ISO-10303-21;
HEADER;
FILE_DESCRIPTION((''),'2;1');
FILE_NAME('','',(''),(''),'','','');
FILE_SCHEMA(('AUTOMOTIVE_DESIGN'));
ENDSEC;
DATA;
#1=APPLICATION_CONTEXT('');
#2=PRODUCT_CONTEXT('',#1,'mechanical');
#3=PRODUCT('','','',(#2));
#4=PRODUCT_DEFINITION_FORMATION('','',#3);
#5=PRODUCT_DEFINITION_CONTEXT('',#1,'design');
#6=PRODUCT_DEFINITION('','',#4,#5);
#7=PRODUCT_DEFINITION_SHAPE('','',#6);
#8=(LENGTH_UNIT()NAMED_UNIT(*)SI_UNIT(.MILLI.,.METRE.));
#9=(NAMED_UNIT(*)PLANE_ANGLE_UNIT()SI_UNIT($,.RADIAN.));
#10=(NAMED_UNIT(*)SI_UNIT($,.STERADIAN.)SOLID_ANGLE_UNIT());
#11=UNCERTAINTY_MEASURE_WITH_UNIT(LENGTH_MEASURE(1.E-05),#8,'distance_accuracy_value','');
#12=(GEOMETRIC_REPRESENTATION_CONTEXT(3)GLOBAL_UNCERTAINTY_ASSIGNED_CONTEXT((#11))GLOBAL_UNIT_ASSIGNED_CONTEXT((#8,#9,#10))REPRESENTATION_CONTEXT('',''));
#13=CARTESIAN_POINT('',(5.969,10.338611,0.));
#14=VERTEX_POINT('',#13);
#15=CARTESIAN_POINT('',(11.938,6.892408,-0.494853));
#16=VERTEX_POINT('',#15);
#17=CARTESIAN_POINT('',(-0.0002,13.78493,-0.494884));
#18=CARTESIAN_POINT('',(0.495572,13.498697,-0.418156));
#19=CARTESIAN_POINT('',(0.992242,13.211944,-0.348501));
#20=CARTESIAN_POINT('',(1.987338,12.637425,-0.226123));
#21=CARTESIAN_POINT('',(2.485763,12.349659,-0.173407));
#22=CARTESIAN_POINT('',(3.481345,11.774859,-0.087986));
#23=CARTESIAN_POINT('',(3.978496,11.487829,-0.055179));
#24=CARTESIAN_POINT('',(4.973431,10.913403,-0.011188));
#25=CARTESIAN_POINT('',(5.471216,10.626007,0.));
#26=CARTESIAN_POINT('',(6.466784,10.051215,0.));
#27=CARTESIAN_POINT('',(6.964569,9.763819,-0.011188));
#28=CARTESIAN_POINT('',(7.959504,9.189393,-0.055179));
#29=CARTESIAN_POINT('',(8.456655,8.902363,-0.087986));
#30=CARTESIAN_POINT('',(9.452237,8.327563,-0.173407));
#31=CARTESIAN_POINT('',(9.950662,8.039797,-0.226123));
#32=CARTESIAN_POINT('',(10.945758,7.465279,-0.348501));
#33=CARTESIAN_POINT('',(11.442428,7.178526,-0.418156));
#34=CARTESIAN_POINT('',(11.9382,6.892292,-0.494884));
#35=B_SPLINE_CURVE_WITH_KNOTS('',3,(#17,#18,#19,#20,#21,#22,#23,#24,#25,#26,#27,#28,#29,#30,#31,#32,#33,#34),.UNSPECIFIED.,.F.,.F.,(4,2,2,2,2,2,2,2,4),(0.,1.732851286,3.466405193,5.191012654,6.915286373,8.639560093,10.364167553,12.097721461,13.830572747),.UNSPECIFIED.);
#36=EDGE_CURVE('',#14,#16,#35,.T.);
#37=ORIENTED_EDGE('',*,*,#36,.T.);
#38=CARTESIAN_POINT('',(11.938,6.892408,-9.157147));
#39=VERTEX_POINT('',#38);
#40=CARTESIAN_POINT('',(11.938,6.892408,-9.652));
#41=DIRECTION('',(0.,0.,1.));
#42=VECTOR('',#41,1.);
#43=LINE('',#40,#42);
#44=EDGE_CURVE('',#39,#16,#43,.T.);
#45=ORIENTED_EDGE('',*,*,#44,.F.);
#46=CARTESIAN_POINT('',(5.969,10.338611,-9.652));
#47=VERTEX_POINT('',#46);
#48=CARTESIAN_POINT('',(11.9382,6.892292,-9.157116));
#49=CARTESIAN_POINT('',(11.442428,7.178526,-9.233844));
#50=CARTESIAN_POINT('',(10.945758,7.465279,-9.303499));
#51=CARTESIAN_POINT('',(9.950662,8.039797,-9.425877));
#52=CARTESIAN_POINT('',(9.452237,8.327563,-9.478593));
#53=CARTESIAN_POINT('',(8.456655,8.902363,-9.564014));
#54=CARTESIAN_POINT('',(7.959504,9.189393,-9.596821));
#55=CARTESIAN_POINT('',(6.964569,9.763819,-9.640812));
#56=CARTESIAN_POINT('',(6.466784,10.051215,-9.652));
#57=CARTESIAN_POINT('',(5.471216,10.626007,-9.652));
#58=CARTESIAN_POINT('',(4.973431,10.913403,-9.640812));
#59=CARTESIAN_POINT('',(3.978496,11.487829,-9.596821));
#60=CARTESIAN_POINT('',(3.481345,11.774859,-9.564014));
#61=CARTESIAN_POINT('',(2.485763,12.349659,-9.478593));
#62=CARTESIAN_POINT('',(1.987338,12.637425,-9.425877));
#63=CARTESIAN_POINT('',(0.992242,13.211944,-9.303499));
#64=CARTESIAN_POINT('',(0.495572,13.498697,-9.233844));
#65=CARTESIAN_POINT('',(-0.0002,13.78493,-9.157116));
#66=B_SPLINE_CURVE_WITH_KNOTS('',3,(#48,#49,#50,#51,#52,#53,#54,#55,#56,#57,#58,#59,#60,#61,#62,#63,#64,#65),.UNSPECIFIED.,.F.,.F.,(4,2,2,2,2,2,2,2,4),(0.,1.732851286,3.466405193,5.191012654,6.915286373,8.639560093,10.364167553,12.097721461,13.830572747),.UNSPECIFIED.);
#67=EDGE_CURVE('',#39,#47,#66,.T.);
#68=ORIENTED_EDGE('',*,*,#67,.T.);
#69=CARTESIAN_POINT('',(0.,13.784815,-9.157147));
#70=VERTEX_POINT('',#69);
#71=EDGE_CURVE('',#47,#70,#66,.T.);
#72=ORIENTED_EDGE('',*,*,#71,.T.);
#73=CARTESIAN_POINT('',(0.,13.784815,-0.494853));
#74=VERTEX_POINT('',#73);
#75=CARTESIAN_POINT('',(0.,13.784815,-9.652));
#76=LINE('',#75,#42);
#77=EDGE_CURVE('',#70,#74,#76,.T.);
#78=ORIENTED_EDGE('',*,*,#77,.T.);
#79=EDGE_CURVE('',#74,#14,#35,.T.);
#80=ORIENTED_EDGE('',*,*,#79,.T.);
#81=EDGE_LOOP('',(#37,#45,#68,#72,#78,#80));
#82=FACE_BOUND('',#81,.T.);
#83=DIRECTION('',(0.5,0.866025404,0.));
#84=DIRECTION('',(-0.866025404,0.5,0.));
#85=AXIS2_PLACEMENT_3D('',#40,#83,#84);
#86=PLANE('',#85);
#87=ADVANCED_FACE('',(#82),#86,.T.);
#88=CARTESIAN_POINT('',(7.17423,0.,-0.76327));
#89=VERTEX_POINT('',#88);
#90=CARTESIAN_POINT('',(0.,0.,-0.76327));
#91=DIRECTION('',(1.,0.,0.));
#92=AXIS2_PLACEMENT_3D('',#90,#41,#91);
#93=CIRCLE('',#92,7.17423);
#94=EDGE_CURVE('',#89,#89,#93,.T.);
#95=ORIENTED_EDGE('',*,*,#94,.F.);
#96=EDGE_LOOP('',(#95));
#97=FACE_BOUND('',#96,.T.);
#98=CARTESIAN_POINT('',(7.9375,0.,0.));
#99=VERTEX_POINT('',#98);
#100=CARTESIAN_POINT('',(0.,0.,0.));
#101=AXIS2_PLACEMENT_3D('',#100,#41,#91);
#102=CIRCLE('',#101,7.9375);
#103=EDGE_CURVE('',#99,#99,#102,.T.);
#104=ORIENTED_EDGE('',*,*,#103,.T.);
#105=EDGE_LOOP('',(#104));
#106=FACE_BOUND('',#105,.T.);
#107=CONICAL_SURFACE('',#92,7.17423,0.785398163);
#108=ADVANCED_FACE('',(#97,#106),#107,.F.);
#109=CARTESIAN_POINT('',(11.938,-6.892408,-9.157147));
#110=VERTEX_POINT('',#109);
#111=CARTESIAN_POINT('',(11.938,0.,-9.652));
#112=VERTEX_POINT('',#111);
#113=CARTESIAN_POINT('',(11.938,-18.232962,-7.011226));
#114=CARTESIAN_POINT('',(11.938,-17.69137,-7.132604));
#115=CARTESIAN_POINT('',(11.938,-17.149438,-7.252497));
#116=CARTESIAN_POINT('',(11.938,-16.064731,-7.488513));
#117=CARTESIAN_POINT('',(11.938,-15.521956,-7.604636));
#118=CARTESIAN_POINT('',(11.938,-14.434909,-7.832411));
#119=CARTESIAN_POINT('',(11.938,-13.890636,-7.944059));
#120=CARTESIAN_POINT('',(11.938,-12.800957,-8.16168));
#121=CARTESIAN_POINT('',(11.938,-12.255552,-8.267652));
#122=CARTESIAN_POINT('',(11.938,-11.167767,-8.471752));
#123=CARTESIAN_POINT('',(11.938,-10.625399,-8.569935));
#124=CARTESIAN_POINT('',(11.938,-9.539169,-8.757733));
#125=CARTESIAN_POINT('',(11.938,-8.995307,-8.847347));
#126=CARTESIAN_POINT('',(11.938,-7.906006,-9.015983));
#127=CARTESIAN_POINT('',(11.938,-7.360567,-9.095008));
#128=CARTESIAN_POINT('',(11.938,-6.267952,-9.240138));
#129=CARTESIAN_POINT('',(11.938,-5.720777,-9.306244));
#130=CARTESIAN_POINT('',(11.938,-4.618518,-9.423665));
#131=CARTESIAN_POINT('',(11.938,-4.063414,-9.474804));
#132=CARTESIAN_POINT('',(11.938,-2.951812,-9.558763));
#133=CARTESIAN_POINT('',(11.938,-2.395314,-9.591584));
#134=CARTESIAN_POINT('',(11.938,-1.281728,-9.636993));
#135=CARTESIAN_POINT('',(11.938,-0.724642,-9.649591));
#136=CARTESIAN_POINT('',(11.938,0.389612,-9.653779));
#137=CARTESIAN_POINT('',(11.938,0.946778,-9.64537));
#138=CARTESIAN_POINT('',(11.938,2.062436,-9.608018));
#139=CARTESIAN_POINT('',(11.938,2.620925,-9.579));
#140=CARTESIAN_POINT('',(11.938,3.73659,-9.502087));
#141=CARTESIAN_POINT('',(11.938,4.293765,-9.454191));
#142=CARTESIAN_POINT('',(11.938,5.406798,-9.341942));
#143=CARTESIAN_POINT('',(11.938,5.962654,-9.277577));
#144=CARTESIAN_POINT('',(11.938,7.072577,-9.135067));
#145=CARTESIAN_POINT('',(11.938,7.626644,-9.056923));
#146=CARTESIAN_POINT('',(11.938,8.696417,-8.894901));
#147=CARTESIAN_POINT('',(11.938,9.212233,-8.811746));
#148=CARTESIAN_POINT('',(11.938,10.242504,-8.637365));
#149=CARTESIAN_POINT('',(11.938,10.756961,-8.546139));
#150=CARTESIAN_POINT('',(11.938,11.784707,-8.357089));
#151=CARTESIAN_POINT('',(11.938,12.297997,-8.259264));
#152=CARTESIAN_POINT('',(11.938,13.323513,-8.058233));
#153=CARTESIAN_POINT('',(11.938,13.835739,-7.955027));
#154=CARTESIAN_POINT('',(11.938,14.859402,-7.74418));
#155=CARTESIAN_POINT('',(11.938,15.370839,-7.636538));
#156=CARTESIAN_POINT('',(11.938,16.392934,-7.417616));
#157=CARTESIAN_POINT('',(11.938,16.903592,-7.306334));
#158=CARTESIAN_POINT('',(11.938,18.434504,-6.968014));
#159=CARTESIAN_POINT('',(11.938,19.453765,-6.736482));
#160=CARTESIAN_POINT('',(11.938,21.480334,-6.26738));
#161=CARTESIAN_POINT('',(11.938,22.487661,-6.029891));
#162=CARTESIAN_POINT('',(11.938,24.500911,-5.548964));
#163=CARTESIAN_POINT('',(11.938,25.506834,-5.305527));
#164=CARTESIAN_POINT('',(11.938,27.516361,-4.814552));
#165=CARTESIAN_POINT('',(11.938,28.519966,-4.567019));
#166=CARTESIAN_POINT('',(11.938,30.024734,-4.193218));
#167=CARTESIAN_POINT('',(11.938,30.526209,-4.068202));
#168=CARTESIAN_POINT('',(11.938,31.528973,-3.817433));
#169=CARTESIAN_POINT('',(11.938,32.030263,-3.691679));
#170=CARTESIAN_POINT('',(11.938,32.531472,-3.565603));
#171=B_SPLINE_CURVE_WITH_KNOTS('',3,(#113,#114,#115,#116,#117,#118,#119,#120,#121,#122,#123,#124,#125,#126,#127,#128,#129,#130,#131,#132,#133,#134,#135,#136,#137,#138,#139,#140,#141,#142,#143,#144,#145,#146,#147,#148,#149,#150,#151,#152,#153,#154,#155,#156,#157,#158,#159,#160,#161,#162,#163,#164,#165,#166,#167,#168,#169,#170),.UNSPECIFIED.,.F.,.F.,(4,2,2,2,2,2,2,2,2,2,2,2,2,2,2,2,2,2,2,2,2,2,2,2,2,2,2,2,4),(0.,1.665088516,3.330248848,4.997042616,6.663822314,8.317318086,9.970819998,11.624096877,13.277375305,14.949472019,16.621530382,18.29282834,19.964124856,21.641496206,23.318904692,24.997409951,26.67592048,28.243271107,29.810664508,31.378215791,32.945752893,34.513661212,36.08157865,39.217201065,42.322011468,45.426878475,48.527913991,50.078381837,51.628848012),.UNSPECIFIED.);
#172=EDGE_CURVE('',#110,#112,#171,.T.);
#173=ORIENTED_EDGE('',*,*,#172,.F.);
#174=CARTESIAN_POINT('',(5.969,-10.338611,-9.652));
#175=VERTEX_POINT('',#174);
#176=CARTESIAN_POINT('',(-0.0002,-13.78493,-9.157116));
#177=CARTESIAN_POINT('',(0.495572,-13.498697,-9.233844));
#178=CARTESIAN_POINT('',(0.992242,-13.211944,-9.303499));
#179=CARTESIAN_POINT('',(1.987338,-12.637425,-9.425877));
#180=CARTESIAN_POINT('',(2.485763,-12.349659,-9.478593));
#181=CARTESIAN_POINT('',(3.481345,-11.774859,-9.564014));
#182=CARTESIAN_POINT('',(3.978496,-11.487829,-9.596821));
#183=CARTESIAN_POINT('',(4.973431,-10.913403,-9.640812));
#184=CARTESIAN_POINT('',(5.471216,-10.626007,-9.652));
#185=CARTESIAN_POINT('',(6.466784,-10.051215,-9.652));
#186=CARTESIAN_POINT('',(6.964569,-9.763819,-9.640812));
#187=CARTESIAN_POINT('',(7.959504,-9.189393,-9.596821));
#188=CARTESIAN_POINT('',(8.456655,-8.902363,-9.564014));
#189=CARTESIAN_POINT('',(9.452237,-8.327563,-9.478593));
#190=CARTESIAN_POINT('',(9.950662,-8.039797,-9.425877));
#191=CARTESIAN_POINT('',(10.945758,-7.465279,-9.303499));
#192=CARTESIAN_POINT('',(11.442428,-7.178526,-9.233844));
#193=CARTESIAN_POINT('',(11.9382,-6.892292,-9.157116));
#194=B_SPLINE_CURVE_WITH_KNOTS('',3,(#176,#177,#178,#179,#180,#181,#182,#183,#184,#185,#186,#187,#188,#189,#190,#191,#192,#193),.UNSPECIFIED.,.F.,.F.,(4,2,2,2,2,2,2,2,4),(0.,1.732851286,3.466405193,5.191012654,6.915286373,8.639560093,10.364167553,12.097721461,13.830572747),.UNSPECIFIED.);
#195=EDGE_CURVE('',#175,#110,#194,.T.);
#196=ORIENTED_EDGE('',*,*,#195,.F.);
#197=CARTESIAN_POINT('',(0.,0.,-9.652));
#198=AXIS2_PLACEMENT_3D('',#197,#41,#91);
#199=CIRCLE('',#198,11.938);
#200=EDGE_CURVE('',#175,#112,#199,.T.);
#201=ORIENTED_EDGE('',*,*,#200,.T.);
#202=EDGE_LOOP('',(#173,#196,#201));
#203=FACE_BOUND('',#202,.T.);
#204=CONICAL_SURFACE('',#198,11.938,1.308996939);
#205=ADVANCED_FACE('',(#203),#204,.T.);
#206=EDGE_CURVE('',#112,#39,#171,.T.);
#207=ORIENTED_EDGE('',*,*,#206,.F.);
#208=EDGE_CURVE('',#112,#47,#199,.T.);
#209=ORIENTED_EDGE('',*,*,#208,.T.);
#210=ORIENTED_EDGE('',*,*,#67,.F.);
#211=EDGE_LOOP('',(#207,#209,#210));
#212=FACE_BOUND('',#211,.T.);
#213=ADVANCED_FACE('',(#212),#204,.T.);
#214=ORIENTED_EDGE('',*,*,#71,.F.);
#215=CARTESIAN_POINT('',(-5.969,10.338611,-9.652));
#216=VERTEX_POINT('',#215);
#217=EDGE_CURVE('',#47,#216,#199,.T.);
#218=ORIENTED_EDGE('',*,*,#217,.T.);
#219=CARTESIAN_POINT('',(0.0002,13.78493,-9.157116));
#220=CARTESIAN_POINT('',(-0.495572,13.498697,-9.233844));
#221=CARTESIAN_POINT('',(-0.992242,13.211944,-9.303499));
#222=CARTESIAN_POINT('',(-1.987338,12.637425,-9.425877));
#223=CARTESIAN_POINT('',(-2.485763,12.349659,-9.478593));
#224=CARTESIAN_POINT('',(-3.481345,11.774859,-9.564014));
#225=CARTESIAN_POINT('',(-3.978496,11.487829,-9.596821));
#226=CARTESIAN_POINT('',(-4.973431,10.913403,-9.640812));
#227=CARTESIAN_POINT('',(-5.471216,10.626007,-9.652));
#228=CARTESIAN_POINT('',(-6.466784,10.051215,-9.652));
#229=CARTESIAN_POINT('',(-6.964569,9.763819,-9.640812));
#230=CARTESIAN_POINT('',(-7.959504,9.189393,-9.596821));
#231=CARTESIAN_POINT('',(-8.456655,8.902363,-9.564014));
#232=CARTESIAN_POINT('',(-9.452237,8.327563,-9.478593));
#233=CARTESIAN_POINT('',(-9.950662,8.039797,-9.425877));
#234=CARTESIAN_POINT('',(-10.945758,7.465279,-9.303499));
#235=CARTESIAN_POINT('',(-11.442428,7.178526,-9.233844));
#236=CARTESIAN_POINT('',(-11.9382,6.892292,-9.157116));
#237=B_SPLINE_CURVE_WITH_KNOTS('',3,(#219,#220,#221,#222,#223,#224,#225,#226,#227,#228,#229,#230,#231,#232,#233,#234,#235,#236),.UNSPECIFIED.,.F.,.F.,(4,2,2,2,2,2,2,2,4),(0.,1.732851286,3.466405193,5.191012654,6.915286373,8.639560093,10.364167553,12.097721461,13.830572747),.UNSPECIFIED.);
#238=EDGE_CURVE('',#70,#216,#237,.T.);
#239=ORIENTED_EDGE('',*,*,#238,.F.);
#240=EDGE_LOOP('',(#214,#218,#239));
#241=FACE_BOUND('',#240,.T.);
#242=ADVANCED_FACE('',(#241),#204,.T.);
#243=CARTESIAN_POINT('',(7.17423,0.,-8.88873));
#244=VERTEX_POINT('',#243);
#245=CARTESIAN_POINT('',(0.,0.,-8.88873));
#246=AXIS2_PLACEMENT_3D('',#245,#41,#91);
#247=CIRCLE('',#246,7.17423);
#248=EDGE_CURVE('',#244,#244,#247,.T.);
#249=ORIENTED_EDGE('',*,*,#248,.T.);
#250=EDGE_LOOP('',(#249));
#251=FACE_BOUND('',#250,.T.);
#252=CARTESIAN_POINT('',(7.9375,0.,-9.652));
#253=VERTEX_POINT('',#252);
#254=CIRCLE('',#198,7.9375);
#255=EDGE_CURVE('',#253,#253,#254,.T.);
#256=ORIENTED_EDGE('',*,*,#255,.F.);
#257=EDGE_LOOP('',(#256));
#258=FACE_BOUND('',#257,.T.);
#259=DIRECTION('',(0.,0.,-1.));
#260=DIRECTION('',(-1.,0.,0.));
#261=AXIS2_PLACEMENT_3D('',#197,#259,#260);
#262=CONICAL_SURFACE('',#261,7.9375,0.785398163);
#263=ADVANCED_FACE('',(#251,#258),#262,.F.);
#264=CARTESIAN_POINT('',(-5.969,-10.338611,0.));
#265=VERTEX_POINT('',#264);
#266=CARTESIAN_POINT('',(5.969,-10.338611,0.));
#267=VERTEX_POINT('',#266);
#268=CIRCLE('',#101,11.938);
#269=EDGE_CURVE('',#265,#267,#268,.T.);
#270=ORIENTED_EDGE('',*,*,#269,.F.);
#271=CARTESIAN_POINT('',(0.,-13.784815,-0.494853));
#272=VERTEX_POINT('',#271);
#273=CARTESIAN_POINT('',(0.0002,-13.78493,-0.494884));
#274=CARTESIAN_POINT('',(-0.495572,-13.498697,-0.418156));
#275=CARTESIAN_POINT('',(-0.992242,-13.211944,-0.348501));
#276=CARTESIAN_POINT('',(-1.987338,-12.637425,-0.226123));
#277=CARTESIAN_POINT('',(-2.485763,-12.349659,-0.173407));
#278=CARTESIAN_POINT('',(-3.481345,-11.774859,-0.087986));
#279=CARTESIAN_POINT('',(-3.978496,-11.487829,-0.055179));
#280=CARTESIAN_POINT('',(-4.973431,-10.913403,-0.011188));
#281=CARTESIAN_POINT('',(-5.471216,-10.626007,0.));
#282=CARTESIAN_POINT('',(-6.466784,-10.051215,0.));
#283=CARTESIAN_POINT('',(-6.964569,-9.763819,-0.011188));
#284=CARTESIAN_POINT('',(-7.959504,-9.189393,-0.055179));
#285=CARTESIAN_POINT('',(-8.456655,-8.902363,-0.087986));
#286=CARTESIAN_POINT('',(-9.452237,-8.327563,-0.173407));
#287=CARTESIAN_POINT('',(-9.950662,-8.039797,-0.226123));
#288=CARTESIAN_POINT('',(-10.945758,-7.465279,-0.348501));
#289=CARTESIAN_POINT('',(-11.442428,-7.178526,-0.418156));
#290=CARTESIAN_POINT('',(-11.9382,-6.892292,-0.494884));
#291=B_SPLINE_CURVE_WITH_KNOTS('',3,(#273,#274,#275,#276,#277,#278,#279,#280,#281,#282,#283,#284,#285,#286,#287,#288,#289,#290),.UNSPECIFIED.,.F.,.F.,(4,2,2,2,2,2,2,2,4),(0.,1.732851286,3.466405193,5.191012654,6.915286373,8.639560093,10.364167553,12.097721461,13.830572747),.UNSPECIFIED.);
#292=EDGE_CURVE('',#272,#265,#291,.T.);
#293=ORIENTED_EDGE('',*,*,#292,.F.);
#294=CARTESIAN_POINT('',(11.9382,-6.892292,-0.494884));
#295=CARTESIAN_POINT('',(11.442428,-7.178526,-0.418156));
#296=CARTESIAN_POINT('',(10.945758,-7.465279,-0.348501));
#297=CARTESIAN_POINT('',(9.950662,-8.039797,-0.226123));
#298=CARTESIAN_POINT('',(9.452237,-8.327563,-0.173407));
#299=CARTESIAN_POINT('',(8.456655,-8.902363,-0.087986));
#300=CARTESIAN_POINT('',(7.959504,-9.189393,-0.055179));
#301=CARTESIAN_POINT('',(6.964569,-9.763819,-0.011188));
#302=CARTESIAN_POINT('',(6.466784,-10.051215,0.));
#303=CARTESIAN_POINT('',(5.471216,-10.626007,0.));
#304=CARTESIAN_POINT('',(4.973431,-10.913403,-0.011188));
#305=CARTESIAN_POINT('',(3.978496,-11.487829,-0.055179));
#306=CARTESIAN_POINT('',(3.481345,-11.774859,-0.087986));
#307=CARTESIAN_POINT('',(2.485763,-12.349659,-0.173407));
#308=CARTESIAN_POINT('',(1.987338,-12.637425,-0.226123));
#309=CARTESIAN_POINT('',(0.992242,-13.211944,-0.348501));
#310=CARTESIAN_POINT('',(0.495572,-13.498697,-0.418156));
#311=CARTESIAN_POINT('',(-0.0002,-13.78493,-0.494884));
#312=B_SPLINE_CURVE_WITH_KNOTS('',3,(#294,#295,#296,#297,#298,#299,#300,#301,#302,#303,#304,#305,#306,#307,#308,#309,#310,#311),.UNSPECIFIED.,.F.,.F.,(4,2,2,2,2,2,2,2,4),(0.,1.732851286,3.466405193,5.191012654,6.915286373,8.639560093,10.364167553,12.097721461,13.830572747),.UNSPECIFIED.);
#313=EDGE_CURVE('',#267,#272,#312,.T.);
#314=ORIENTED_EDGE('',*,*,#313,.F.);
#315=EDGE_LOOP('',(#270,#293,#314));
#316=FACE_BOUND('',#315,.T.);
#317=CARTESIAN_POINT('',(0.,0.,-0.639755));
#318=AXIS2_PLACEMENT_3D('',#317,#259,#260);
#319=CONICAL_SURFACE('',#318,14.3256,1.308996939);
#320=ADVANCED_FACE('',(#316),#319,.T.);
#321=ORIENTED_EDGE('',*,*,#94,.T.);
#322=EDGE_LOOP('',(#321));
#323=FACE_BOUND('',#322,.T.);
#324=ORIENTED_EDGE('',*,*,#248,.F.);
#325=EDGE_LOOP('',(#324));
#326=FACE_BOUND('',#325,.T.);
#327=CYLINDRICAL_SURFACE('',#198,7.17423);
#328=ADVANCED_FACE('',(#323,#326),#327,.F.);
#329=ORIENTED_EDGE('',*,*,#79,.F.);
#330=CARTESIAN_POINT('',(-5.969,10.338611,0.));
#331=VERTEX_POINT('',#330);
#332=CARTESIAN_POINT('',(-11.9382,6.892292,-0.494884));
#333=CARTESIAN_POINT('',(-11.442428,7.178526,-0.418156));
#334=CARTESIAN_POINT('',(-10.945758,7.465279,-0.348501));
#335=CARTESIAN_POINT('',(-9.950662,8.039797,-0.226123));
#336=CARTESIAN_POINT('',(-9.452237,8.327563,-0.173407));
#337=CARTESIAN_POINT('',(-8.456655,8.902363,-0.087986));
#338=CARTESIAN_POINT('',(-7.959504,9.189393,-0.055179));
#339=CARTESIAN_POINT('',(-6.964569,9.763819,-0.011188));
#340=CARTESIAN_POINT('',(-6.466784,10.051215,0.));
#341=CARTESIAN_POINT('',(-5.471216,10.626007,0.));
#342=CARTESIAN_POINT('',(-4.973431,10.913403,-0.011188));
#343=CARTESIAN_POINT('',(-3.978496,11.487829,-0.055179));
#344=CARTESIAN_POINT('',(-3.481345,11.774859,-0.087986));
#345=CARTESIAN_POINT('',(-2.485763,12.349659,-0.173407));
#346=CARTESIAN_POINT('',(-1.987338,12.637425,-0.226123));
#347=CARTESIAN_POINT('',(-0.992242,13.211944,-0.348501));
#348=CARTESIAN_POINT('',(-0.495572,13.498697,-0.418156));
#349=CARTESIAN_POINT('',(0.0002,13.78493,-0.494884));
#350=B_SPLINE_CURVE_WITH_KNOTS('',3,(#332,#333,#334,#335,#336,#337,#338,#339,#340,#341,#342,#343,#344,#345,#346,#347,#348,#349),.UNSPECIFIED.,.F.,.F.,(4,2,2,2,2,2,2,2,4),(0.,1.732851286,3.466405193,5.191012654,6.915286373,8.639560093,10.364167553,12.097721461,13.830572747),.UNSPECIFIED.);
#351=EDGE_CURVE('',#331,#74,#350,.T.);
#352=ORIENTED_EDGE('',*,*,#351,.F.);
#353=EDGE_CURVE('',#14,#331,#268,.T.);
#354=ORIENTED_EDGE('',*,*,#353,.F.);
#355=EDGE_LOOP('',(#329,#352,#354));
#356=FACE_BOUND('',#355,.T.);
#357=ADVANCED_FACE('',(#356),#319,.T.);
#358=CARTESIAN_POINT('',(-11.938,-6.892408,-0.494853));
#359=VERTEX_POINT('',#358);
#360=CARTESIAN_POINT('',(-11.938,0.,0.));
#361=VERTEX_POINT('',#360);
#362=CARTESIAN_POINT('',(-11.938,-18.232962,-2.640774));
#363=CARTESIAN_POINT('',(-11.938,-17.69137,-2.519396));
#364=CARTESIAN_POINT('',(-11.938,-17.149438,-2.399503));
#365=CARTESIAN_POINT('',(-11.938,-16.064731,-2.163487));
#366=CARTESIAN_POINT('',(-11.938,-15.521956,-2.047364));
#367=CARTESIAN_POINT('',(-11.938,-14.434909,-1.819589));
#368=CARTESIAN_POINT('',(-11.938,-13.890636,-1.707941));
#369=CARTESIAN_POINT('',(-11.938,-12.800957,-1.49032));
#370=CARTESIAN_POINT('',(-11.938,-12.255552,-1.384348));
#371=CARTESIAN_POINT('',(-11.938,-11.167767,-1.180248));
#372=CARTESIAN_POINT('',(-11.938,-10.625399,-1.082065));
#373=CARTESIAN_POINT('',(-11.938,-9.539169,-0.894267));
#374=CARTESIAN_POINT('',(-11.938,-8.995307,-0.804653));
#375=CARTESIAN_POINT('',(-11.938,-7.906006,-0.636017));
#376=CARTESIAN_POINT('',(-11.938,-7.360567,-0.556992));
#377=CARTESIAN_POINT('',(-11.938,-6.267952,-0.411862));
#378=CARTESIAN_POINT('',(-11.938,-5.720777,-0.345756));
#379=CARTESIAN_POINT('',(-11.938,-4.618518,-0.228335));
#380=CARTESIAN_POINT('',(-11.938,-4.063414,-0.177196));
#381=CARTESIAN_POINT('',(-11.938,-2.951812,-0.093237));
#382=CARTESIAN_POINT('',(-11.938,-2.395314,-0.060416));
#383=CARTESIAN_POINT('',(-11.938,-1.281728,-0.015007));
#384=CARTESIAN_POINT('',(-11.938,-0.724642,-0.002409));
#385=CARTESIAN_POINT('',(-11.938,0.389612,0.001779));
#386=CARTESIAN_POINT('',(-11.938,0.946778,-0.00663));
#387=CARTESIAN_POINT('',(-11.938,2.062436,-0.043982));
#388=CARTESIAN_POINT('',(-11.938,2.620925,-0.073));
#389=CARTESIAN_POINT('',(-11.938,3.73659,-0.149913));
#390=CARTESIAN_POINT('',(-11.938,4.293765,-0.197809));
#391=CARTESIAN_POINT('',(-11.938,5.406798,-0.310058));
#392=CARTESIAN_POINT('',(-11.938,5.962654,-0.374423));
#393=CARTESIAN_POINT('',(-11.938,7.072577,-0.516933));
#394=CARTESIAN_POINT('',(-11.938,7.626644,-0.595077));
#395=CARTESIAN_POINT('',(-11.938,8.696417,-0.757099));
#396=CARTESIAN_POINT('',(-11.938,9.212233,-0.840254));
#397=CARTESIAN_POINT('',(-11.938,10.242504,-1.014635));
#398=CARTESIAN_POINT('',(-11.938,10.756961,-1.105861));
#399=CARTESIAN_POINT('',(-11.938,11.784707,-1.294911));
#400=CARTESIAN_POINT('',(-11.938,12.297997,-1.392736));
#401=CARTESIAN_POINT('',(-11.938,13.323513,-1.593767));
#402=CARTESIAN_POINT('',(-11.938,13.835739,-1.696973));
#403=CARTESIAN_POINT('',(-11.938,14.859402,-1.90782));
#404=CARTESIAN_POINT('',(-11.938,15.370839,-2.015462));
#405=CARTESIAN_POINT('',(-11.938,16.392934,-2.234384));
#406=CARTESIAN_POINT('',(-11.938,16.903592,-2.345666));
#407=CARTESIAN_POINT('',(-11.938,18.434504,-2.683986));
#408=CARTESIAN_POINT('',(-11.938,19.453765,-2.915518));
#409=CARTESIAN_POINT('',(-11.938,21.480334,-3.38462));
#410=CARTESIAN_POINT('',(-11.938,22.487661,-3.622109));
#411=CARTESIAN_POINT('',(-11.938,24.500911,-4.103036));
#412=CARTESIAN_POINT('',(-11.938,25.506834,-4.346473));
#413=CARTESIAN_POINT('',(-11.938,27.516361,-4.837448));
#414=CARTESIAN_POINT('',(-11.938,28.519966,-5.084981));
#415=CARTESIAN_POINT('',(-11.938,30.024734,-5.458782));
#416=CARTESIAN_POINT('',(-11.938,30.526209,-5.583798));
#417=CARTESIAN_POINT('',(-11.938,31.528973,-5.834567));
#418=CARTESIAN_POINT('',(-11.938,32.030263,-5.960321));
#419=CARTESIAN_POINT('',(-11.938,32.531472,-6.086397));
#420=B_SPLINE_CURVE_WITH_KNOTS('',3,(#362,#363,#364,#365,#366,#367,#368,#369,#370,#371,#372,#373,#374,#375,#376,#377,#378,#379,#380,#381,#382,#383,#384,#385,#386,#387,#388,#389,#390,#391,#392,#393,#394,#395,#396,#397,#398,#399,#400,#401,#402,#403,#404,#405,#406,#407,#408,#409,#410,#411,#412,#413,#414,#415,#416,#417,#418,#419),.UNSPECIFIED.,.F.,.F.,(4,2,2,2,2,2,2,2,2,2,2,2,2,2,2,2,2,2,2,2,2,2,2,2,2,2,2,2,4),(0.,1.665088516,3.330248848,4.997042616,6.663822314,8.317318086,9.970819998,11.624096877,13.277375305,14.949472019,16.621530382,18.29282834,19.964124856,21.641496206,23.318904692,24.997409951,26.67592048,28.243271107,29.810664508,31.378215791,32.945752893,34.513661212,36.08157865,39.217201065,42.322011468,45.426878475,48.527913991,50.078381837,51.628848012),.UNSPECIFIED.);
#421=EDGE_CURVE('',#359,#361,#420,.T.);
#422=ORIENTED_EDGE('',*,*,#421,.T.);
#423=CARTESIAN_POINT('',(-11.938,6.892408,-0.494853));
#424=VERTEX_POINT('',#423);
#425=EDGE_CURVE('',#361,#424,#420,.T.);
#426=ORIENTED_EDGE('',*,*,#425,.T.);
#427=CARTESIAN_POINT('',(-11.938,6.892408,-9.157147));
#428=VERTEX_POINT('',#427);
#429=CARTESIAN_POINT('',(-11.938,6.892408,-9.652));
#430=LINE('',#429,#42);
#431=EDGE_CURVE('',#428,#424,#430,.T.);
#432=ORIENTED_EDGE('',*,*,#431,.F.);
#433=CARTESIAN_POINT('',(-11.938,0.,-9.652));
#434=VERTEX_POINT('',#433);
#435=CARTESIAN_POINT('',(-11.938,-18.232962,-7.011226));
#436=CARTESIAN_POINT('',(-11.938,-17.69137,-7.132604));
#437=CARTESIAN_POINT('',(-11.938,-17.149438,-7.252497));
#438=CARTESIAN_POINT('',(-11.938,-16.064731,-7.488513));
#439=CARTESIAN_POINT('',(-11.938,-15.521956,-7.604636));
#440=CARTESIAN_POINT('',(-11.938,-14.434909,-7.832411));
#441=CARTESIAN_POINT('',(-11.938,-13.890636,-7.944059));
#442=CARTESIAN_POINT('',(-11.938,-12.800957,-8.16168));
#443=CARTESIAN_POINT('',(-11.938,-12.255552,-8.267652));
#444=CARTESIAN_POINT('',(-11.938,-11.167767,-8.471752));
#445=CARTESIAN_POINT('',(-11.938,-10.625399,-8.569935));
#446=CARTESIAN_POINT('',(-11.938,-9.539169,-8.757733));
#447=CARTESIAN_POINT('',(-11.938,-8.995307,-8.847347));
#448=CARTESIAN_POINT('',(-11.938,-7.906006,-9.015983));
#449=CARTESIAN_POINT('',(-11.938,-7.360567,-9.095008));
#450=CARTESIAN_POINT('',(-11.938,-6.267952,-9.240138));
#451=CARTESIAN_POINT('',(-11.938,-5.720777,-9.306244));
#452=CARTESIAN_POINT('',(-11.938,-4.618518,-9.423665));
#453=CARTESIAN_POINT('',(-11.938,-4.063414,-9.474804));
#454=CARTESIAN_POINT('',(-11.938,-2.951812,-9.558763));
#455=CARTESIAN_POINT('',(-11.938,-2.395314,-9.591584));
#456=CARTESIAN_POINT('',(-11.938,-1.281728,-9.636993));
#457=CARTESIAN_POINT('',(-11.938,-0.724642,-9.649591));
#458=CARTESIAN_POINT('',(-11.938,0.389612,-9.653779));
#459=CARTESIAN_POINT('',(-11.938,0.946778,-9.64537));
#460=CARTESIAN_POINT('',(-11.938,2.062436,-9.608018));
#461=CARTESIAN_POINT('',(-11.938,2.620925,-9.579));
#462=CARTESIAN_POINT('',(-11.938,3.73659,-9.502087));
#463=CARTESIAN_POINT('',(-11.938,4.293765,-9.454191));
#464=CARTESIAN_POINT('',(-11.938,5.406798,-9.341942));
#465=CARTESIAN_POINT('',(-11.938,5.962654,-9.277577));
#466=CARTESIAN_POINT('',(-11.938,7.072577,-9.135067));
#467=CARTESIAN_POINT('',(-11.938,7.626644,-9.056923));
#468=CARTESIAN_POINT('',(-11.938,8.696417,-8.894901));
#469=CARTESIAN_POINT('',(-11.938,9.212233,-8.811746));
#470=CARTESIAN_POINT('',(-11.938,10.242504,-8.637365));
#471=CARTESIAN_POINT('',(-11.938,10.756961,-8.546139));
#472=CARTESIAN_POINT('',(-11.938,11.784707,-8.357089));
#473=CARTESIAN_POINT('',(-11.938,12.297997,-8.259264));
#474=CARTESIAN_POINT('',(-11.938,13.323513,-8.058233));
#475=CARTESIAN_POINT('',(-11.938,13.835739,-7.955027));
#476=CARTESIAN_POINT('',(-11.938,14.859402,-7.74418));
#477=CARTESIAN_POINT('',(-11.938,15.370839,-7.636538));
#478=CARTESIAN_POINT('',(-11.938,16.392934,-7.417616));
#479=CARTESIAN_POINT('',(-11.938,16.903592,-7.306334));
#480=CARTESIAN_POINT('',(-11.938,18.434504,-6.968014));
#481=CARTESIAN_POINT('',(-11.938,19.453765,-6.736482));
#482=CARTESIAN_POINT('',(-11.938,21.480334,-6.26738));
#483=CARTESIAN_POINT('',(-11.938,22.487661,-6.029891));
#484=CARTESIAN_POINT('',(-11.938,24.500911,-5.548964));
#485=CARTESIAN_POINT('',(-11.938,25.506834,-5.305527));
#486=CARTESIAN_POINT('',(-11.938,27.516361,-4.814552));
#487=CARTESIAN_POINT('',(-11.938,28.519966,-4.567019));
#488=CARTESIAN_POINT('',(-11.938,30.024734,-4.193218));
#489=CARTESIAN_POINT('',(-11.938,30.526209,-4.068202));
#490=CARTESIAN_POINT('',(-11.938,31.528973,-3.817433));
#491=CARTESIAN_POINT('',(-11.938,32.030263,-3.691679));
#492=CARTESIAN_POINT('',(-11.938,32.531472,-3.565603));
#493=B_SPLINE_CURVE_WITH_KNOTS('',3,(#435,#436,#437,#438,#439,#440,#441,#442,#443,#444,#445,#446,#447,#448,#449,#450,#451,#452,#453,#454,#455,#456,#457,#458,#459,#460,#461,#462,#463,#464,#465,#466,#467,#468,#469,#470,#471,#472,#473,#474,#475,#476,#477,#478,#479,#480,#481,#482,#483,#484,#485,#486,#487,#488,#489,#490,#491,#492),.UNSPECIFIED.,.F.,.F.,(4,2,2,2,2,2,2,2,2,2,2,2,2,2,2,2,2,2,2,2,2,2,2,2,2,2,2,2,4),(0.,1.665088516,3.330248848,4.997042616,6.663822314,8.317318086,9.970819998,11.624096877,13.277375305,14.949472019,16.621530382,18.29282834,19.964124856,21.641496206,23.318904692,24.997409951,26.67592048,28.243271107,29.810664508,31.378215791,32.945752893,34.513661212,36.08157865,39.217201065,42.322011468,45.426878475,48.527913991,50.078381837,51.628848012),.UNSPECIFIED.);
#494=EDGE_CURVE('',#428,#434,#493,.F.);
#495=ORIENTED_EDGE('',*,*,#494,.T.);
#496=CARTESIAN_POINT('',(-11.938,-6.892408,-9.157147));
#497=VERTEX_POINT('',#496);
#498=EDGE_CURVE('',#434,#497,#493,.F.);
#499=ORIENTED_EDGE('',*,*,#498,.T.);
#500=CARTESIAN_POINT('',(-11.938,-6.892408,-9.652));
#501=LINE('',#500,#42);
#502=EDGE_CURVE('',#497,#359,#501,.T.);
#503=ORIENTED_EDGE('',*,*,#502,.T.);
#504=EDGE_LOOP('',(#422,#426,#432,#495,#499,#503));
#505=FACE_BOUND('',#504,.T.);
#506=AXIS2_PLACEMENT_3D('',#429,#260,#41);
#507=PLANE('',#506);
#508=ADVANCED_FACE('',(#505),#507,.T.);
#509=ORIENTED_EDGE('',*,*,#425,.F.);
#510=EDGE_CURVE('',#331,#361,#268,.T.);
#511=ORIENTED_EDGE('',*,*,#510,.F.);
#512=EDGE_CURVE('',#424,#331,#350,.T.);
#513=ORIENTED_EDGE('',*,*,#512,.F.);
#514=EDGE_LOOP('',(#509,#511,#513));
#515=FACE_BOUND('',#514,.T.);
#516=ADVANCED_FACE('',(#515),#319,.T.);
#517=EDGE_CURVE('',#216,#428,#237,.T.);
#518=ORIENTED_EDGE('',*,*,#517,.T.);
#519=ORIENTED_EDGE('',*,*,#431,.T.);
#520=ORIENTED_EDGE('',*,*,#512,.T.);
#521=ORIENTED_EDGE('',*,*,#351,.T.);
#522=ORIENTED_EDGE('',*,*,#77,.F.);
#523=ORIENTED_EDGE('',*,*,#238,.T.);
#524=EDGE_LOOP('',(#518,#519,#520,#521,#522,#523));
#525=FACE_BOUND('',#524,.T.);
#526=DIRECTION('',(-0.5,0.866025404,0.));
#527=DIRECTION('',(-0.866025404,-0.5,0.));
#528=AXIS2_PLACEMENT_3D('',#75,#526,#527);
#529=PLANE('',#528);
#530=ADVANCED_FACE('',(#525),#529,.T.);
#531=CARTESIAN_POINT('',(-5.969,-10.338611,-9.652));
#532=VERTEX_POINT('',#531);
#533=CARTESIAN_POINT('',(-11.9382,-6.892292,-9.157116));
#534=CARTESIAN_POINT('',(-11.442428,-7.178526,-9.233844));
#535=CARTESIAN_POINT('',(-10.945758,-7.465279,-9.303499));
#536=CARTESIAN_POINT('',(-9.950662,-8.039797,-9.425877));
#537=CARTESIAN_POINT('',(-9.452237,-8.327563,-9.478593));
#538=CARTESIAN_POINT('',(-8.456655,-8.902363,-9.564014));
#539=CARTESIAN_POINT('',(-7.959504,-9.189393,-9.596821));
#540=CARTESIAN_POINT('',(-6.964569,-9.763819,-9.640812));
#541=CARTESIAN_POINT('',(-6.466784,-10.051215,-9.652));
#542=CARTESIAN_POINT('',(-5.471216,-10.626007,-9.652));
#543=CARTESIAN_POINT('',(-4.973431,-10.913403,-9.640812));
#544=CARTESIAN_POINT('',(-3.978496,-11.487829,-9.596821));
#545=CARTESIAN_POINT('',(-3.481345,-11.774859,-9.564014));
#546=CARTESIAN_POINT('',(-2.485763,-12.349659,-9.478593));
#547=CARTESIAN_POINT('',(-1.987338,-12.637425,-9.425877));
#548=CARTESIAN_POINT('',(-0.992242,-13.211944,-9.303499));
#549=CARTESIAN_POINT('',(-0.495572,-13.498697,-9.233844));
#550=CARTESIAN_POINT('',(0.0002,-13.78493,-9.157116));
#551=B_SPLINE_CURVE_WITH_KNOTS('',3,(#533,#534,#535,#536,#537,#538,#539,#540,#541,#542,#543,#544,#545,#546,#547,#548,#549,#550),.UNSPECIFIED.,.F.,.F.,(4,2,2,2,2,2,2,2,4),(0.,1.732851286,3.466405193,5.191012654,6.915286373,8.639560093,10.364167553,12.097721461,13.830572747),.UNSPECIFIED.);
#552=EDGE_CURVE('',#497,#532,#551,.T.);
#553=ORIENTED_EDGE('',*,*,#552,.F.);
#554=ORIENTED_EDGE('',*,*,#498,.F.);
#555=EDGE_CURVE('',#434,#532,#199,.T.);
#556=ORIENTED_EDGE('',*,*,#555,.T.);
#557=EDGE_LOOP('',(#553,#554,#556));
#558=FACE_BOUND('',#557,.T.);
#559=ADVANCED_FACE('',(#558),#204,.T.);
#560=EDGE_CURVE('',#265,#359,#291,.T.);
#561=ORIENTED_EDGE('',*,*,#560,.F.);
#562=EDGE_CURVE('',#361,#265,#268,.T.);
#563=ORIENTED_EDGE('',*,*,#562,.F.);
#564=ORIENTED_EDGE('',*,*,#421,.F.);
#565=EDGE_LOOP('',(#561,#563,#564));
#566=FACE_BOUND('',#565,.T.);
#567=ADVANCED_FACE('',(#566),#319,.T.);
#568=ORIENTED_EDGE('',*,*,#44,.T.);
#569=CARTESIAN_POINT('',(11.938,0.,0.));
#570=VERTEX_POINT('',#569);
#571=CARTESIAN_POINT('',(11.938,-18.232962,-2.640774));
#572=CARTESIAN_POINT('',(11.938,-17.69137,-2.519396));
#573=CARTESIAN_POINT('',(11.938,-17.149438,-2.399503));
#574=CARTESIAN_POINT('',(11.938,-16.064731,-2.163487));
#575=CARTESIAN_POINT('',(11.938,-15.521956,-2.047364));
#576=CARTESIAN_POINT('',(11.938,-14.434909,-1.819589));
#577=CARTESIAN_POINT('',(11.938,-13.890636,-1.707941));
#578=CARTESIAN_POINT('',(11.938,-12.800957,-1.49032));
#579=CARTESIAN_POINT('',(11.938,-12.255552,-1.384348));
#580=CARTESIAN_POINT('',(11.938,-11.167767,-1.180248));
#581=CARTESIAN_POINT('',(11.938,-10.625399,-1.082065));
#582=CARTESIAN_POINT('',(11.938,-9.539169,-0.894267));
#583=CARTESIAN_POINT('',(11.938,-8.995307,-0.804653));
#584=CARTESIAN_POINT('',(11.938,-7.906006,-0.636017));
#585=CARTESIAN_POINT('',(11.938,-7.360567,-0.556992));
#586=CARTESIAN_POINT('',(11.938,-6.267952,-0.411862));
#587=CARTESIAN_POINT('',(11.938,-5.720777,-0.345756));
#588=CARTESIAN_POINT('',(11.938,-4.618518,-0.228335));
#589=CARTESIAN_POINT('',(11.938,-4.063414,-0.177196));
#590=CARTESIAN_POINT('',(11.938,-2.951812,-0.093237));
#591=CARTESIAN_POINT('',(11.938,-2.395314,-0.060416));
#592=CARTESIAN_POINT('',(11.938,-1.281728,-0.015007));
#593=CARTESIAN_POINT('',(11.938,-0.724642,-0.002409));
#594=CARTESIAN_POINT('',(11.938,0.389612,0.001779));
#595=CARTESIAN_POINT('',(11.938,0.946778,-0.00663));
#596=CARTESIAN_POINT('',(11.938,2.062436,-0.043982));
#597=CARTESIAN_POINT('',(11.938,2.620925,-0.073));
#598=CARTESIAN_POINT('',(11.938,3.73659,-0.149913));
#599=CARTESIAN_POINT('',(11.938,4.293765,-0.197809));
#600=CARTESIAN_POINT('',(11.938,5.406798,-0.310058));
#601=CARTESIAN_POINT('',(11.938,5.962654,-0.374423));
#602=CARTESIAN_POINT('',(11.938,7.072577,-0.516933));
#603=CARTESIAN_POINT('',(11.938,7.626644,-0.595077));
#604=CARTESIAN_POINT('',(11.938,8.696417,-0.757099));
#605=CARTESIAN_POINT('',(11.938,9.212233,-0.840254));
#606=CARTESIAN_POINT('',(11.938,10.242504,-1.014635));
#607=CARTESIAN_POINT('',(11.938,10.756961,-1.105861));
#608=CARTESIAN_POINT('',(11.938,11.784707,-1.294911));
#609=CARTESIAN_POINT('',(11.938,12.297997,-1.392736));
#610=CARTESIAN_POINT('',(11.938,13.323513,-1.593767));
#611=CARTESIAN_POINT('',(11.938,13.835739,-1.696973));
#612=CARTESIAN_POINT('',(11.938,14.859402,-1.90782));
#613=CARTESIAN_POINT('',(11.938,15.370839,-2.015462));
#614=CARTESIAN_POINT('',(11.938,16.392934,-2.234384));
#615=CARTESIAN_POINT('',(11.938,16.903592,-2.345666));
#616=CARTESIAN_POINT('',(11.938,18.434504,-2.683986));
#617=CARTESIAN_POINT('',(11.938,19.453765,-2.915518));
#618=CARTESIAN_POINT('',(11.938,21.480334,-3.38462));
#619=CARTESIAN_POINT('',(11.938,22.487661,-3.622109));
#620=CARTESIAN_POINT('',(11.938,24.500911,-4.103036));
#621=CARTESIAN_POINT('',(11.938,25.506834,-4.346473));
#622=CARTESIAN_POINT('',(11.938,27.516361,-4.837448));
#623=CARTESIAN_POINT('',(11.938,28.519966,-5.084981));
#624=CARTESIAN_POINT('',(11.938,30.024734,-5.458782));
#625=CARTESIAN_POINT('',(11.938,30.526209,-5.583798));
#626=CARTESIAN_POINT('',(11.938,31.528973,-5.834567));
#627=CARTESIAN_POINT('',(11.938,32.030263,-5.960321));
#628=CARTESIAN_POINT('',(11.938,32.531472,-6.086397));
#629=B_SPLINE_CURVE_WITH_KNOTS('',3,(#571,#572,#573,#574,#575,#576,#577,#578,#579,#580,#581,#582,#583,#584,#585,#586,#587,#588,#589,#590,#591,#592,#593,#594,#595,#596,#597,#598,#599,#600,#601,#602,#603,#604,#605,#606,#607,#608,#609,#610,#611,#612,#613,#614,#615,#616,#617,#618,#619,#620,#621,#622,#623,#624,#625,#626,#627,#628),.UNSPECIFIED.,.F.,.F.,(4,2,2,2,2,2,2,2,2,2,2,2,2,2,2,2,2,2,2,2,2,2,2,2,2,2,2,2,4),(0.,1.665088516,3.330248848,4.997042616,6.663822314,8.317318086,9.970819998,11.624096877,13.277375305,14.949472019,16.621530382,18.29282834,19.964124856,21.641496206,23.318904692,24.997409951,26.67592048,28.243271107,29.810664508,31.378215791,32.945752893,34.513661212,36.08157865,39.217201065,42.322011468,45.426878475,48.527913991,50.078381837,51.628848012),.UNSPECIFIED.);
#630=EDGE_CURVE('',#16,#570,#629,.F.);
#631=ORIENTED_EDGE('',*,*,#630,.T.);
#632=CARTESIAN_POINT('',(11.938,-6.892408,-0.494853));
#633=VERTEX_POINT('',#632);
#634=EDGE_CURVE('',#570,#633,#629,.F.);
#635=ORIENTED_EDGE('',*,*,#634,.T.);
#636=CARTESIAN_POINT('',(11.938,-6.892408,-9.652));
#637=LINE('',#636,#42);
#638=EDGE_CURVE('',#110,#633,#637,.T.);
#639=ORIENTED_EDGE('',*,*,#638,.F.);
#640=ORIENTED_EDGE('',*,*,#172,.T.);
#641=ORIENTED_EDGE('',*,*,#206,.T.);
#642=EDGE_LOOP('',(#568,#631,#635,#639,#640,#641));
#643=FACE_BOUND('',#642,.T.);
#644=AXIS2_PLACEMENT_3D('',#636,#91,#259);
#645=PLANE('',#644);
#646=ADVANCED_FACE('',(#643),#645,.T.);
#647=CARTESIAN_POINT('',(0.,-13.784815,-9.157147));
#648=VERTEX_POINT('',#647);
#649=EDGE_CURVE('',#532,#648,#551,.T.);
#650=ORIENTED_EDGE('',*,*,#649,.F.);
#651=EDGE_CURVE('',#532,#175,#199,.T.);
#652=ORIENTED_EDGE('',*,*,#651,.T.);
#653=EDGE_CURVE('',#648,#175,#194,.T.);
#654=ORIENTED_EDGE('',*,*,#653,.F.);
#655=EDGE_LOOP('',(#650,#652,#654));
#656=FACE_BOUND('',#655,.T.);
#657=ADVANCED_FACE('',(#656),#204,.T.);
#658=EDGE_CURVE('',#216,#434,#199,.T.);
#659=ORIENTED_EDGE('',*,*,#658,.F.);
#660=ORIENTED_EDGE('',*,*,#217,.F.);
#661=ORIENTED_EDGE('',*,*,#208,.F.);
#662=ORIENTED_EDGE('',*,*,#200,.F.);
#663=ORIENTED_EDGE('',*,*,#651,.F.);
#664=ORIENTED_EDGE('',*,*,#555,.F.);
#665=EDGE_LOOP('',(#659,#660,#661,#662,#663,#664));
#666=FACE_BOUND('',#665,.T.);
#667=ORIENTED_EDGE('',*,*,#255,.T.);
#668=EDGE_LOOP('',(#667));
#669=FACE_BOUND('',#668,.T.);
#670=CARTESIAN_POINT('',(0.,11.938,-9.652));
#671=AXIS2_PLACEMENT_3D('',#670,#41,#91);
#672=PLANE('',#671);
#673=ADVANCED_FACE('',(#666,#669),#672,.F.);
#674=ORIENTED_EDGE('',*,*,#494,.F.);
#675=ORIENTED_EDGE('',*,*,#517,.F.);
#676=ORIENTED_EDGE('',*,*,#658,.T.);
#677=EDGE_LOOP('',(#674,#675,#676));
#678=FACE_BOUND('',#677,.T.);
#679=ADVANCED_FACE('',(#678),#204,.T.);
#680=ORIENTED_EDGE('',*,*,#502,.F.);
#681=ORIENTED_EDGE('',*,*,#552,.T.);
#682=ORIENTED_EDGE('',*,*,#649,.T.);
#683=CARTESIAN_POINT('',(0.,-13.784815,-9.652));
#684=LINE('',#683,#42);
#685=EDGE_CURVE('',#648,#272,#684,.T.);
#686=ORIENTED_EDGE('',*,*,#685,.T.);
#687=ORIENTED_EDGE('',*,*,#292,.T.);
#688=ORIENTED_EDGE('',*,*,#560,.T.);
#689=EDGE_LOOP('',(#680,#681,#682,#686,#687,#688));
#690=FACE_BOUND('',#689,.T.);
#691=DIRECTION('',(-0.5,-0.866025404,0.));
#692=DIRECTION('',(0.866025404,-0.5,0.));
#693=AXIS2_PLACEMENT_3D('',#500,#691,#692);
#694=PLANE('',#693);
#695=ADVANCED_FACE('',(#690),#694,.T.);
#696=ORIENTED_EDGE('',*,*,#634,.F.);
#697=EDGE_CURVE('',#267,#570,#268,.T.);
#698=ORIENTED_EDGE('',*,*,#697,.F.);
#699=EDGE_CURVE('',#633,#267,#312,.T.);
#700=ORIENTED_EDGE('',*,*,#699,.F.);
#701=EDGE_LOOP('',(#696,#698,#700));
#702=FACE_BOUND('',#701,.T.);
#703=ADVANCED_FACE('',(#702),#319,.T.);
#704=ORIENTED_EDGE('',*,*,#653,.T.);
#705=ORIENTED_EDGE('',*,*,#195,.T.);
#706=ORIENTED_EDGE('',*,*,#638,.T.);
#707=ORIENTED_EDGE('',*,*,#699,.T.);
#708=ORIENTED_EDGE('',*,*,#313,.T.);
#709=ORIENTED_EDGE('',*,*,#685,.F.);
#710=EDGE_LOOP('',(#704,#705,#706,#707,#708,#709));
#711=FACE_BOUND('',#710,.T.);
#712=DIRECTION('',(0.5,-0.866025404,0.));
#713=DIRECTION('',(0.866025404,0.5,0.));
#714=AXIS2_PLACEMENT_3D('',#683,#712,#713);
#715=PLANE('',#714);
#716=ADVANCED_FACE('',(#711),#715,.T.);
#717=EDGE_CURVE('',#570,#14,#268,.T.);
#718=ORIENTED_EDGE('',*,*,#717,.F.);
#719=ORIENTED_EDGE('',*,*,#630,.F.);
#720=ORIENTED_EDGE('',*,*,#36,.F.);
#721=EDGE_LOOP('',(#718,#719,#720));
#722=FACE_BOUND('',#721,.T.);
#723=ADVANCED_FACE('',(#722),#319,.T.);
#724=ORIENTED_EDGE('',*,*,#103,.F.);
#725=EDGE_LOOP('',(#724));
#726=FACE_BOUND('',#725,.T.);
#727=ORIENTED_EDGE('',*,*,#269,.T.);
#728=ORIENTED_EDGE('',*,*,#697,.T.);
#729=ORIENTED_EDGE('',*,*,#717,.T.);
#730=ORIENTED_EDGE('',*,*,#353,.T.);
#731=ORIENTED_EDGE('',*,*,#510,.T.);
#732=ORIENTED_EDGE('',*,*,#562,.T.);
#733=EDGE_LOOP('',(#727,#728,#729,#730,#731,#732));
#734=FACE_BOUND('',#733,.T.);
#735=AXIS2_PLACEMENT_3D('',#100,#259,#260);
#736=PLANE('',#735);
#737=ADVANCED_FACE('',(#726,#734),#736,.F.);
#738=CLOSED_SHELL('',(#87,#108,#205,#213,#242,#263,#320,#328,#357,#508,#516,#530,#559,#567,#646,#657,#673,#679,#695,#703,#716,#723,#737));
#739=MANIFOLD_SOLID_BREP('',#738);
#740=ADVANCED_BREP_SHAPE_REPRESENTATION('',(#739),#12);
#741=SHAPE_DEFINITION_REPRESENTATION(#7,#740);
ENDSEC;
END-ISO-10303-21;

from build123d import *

# Parameters (mm, degrees)
SKETCH2_W          = 47.752
SKETCH2_H          = 47.752
CUT_EXTRUDE1_DEPTH = 9.652


with BuildPart() as part:
    # Sketch1 → Revolve1 (revolve)
    with BuildSketch(Plane(origin=(0, 0, 0), x_dir=(0, 0, -1), z_dir=(1, 0, 0))):
        Polygon((0, 0), (0, 11.938), (0.639755492, 14.3256), (9.012244508, 14.3256), (9.652, 11.938), (9.652, 0), align=None)
    revolve(axis=Axis((0, 0, -9.652), (0, 0, 1)))

    # Sketch2 → Cut-Extrude1 (cut)
    with BuildSketch(Plane.XY):
        Rectangle(SKETCH2_W, SKETCH2_H)
        Polygon((-11.938, 6.892407514), (-11.938, -6.892407514), (0, -13.784815027), (11.938, -6.892407514), (11.938, 6.892407514), (0, 13.784815027), align=None, mode=Mode.SUBTRACT)
    extrude(amount=-CUT_EXTRUDE1_DEPTH, mode=Mode.SUBTRACT)

    # Sketch3 → Cut-Revolve1 (revolve, cut)
    with BuildSketch(Plane(origin=(0, 0, 0), x_dir=(0, 0, -1), z_dir=(1, 0, 0))):
        Polygon((0, 0), (0, 7.9375), (0.76327, 7.17423), (8.88873, 7.17423), (9.652, 7.9375), (9.652, 0), align=None)
    revolve(axis=Axis((0, 0, -9.652), (0, 0, 1)), mode=Mode.SUBTRACT)


solid = part.part
